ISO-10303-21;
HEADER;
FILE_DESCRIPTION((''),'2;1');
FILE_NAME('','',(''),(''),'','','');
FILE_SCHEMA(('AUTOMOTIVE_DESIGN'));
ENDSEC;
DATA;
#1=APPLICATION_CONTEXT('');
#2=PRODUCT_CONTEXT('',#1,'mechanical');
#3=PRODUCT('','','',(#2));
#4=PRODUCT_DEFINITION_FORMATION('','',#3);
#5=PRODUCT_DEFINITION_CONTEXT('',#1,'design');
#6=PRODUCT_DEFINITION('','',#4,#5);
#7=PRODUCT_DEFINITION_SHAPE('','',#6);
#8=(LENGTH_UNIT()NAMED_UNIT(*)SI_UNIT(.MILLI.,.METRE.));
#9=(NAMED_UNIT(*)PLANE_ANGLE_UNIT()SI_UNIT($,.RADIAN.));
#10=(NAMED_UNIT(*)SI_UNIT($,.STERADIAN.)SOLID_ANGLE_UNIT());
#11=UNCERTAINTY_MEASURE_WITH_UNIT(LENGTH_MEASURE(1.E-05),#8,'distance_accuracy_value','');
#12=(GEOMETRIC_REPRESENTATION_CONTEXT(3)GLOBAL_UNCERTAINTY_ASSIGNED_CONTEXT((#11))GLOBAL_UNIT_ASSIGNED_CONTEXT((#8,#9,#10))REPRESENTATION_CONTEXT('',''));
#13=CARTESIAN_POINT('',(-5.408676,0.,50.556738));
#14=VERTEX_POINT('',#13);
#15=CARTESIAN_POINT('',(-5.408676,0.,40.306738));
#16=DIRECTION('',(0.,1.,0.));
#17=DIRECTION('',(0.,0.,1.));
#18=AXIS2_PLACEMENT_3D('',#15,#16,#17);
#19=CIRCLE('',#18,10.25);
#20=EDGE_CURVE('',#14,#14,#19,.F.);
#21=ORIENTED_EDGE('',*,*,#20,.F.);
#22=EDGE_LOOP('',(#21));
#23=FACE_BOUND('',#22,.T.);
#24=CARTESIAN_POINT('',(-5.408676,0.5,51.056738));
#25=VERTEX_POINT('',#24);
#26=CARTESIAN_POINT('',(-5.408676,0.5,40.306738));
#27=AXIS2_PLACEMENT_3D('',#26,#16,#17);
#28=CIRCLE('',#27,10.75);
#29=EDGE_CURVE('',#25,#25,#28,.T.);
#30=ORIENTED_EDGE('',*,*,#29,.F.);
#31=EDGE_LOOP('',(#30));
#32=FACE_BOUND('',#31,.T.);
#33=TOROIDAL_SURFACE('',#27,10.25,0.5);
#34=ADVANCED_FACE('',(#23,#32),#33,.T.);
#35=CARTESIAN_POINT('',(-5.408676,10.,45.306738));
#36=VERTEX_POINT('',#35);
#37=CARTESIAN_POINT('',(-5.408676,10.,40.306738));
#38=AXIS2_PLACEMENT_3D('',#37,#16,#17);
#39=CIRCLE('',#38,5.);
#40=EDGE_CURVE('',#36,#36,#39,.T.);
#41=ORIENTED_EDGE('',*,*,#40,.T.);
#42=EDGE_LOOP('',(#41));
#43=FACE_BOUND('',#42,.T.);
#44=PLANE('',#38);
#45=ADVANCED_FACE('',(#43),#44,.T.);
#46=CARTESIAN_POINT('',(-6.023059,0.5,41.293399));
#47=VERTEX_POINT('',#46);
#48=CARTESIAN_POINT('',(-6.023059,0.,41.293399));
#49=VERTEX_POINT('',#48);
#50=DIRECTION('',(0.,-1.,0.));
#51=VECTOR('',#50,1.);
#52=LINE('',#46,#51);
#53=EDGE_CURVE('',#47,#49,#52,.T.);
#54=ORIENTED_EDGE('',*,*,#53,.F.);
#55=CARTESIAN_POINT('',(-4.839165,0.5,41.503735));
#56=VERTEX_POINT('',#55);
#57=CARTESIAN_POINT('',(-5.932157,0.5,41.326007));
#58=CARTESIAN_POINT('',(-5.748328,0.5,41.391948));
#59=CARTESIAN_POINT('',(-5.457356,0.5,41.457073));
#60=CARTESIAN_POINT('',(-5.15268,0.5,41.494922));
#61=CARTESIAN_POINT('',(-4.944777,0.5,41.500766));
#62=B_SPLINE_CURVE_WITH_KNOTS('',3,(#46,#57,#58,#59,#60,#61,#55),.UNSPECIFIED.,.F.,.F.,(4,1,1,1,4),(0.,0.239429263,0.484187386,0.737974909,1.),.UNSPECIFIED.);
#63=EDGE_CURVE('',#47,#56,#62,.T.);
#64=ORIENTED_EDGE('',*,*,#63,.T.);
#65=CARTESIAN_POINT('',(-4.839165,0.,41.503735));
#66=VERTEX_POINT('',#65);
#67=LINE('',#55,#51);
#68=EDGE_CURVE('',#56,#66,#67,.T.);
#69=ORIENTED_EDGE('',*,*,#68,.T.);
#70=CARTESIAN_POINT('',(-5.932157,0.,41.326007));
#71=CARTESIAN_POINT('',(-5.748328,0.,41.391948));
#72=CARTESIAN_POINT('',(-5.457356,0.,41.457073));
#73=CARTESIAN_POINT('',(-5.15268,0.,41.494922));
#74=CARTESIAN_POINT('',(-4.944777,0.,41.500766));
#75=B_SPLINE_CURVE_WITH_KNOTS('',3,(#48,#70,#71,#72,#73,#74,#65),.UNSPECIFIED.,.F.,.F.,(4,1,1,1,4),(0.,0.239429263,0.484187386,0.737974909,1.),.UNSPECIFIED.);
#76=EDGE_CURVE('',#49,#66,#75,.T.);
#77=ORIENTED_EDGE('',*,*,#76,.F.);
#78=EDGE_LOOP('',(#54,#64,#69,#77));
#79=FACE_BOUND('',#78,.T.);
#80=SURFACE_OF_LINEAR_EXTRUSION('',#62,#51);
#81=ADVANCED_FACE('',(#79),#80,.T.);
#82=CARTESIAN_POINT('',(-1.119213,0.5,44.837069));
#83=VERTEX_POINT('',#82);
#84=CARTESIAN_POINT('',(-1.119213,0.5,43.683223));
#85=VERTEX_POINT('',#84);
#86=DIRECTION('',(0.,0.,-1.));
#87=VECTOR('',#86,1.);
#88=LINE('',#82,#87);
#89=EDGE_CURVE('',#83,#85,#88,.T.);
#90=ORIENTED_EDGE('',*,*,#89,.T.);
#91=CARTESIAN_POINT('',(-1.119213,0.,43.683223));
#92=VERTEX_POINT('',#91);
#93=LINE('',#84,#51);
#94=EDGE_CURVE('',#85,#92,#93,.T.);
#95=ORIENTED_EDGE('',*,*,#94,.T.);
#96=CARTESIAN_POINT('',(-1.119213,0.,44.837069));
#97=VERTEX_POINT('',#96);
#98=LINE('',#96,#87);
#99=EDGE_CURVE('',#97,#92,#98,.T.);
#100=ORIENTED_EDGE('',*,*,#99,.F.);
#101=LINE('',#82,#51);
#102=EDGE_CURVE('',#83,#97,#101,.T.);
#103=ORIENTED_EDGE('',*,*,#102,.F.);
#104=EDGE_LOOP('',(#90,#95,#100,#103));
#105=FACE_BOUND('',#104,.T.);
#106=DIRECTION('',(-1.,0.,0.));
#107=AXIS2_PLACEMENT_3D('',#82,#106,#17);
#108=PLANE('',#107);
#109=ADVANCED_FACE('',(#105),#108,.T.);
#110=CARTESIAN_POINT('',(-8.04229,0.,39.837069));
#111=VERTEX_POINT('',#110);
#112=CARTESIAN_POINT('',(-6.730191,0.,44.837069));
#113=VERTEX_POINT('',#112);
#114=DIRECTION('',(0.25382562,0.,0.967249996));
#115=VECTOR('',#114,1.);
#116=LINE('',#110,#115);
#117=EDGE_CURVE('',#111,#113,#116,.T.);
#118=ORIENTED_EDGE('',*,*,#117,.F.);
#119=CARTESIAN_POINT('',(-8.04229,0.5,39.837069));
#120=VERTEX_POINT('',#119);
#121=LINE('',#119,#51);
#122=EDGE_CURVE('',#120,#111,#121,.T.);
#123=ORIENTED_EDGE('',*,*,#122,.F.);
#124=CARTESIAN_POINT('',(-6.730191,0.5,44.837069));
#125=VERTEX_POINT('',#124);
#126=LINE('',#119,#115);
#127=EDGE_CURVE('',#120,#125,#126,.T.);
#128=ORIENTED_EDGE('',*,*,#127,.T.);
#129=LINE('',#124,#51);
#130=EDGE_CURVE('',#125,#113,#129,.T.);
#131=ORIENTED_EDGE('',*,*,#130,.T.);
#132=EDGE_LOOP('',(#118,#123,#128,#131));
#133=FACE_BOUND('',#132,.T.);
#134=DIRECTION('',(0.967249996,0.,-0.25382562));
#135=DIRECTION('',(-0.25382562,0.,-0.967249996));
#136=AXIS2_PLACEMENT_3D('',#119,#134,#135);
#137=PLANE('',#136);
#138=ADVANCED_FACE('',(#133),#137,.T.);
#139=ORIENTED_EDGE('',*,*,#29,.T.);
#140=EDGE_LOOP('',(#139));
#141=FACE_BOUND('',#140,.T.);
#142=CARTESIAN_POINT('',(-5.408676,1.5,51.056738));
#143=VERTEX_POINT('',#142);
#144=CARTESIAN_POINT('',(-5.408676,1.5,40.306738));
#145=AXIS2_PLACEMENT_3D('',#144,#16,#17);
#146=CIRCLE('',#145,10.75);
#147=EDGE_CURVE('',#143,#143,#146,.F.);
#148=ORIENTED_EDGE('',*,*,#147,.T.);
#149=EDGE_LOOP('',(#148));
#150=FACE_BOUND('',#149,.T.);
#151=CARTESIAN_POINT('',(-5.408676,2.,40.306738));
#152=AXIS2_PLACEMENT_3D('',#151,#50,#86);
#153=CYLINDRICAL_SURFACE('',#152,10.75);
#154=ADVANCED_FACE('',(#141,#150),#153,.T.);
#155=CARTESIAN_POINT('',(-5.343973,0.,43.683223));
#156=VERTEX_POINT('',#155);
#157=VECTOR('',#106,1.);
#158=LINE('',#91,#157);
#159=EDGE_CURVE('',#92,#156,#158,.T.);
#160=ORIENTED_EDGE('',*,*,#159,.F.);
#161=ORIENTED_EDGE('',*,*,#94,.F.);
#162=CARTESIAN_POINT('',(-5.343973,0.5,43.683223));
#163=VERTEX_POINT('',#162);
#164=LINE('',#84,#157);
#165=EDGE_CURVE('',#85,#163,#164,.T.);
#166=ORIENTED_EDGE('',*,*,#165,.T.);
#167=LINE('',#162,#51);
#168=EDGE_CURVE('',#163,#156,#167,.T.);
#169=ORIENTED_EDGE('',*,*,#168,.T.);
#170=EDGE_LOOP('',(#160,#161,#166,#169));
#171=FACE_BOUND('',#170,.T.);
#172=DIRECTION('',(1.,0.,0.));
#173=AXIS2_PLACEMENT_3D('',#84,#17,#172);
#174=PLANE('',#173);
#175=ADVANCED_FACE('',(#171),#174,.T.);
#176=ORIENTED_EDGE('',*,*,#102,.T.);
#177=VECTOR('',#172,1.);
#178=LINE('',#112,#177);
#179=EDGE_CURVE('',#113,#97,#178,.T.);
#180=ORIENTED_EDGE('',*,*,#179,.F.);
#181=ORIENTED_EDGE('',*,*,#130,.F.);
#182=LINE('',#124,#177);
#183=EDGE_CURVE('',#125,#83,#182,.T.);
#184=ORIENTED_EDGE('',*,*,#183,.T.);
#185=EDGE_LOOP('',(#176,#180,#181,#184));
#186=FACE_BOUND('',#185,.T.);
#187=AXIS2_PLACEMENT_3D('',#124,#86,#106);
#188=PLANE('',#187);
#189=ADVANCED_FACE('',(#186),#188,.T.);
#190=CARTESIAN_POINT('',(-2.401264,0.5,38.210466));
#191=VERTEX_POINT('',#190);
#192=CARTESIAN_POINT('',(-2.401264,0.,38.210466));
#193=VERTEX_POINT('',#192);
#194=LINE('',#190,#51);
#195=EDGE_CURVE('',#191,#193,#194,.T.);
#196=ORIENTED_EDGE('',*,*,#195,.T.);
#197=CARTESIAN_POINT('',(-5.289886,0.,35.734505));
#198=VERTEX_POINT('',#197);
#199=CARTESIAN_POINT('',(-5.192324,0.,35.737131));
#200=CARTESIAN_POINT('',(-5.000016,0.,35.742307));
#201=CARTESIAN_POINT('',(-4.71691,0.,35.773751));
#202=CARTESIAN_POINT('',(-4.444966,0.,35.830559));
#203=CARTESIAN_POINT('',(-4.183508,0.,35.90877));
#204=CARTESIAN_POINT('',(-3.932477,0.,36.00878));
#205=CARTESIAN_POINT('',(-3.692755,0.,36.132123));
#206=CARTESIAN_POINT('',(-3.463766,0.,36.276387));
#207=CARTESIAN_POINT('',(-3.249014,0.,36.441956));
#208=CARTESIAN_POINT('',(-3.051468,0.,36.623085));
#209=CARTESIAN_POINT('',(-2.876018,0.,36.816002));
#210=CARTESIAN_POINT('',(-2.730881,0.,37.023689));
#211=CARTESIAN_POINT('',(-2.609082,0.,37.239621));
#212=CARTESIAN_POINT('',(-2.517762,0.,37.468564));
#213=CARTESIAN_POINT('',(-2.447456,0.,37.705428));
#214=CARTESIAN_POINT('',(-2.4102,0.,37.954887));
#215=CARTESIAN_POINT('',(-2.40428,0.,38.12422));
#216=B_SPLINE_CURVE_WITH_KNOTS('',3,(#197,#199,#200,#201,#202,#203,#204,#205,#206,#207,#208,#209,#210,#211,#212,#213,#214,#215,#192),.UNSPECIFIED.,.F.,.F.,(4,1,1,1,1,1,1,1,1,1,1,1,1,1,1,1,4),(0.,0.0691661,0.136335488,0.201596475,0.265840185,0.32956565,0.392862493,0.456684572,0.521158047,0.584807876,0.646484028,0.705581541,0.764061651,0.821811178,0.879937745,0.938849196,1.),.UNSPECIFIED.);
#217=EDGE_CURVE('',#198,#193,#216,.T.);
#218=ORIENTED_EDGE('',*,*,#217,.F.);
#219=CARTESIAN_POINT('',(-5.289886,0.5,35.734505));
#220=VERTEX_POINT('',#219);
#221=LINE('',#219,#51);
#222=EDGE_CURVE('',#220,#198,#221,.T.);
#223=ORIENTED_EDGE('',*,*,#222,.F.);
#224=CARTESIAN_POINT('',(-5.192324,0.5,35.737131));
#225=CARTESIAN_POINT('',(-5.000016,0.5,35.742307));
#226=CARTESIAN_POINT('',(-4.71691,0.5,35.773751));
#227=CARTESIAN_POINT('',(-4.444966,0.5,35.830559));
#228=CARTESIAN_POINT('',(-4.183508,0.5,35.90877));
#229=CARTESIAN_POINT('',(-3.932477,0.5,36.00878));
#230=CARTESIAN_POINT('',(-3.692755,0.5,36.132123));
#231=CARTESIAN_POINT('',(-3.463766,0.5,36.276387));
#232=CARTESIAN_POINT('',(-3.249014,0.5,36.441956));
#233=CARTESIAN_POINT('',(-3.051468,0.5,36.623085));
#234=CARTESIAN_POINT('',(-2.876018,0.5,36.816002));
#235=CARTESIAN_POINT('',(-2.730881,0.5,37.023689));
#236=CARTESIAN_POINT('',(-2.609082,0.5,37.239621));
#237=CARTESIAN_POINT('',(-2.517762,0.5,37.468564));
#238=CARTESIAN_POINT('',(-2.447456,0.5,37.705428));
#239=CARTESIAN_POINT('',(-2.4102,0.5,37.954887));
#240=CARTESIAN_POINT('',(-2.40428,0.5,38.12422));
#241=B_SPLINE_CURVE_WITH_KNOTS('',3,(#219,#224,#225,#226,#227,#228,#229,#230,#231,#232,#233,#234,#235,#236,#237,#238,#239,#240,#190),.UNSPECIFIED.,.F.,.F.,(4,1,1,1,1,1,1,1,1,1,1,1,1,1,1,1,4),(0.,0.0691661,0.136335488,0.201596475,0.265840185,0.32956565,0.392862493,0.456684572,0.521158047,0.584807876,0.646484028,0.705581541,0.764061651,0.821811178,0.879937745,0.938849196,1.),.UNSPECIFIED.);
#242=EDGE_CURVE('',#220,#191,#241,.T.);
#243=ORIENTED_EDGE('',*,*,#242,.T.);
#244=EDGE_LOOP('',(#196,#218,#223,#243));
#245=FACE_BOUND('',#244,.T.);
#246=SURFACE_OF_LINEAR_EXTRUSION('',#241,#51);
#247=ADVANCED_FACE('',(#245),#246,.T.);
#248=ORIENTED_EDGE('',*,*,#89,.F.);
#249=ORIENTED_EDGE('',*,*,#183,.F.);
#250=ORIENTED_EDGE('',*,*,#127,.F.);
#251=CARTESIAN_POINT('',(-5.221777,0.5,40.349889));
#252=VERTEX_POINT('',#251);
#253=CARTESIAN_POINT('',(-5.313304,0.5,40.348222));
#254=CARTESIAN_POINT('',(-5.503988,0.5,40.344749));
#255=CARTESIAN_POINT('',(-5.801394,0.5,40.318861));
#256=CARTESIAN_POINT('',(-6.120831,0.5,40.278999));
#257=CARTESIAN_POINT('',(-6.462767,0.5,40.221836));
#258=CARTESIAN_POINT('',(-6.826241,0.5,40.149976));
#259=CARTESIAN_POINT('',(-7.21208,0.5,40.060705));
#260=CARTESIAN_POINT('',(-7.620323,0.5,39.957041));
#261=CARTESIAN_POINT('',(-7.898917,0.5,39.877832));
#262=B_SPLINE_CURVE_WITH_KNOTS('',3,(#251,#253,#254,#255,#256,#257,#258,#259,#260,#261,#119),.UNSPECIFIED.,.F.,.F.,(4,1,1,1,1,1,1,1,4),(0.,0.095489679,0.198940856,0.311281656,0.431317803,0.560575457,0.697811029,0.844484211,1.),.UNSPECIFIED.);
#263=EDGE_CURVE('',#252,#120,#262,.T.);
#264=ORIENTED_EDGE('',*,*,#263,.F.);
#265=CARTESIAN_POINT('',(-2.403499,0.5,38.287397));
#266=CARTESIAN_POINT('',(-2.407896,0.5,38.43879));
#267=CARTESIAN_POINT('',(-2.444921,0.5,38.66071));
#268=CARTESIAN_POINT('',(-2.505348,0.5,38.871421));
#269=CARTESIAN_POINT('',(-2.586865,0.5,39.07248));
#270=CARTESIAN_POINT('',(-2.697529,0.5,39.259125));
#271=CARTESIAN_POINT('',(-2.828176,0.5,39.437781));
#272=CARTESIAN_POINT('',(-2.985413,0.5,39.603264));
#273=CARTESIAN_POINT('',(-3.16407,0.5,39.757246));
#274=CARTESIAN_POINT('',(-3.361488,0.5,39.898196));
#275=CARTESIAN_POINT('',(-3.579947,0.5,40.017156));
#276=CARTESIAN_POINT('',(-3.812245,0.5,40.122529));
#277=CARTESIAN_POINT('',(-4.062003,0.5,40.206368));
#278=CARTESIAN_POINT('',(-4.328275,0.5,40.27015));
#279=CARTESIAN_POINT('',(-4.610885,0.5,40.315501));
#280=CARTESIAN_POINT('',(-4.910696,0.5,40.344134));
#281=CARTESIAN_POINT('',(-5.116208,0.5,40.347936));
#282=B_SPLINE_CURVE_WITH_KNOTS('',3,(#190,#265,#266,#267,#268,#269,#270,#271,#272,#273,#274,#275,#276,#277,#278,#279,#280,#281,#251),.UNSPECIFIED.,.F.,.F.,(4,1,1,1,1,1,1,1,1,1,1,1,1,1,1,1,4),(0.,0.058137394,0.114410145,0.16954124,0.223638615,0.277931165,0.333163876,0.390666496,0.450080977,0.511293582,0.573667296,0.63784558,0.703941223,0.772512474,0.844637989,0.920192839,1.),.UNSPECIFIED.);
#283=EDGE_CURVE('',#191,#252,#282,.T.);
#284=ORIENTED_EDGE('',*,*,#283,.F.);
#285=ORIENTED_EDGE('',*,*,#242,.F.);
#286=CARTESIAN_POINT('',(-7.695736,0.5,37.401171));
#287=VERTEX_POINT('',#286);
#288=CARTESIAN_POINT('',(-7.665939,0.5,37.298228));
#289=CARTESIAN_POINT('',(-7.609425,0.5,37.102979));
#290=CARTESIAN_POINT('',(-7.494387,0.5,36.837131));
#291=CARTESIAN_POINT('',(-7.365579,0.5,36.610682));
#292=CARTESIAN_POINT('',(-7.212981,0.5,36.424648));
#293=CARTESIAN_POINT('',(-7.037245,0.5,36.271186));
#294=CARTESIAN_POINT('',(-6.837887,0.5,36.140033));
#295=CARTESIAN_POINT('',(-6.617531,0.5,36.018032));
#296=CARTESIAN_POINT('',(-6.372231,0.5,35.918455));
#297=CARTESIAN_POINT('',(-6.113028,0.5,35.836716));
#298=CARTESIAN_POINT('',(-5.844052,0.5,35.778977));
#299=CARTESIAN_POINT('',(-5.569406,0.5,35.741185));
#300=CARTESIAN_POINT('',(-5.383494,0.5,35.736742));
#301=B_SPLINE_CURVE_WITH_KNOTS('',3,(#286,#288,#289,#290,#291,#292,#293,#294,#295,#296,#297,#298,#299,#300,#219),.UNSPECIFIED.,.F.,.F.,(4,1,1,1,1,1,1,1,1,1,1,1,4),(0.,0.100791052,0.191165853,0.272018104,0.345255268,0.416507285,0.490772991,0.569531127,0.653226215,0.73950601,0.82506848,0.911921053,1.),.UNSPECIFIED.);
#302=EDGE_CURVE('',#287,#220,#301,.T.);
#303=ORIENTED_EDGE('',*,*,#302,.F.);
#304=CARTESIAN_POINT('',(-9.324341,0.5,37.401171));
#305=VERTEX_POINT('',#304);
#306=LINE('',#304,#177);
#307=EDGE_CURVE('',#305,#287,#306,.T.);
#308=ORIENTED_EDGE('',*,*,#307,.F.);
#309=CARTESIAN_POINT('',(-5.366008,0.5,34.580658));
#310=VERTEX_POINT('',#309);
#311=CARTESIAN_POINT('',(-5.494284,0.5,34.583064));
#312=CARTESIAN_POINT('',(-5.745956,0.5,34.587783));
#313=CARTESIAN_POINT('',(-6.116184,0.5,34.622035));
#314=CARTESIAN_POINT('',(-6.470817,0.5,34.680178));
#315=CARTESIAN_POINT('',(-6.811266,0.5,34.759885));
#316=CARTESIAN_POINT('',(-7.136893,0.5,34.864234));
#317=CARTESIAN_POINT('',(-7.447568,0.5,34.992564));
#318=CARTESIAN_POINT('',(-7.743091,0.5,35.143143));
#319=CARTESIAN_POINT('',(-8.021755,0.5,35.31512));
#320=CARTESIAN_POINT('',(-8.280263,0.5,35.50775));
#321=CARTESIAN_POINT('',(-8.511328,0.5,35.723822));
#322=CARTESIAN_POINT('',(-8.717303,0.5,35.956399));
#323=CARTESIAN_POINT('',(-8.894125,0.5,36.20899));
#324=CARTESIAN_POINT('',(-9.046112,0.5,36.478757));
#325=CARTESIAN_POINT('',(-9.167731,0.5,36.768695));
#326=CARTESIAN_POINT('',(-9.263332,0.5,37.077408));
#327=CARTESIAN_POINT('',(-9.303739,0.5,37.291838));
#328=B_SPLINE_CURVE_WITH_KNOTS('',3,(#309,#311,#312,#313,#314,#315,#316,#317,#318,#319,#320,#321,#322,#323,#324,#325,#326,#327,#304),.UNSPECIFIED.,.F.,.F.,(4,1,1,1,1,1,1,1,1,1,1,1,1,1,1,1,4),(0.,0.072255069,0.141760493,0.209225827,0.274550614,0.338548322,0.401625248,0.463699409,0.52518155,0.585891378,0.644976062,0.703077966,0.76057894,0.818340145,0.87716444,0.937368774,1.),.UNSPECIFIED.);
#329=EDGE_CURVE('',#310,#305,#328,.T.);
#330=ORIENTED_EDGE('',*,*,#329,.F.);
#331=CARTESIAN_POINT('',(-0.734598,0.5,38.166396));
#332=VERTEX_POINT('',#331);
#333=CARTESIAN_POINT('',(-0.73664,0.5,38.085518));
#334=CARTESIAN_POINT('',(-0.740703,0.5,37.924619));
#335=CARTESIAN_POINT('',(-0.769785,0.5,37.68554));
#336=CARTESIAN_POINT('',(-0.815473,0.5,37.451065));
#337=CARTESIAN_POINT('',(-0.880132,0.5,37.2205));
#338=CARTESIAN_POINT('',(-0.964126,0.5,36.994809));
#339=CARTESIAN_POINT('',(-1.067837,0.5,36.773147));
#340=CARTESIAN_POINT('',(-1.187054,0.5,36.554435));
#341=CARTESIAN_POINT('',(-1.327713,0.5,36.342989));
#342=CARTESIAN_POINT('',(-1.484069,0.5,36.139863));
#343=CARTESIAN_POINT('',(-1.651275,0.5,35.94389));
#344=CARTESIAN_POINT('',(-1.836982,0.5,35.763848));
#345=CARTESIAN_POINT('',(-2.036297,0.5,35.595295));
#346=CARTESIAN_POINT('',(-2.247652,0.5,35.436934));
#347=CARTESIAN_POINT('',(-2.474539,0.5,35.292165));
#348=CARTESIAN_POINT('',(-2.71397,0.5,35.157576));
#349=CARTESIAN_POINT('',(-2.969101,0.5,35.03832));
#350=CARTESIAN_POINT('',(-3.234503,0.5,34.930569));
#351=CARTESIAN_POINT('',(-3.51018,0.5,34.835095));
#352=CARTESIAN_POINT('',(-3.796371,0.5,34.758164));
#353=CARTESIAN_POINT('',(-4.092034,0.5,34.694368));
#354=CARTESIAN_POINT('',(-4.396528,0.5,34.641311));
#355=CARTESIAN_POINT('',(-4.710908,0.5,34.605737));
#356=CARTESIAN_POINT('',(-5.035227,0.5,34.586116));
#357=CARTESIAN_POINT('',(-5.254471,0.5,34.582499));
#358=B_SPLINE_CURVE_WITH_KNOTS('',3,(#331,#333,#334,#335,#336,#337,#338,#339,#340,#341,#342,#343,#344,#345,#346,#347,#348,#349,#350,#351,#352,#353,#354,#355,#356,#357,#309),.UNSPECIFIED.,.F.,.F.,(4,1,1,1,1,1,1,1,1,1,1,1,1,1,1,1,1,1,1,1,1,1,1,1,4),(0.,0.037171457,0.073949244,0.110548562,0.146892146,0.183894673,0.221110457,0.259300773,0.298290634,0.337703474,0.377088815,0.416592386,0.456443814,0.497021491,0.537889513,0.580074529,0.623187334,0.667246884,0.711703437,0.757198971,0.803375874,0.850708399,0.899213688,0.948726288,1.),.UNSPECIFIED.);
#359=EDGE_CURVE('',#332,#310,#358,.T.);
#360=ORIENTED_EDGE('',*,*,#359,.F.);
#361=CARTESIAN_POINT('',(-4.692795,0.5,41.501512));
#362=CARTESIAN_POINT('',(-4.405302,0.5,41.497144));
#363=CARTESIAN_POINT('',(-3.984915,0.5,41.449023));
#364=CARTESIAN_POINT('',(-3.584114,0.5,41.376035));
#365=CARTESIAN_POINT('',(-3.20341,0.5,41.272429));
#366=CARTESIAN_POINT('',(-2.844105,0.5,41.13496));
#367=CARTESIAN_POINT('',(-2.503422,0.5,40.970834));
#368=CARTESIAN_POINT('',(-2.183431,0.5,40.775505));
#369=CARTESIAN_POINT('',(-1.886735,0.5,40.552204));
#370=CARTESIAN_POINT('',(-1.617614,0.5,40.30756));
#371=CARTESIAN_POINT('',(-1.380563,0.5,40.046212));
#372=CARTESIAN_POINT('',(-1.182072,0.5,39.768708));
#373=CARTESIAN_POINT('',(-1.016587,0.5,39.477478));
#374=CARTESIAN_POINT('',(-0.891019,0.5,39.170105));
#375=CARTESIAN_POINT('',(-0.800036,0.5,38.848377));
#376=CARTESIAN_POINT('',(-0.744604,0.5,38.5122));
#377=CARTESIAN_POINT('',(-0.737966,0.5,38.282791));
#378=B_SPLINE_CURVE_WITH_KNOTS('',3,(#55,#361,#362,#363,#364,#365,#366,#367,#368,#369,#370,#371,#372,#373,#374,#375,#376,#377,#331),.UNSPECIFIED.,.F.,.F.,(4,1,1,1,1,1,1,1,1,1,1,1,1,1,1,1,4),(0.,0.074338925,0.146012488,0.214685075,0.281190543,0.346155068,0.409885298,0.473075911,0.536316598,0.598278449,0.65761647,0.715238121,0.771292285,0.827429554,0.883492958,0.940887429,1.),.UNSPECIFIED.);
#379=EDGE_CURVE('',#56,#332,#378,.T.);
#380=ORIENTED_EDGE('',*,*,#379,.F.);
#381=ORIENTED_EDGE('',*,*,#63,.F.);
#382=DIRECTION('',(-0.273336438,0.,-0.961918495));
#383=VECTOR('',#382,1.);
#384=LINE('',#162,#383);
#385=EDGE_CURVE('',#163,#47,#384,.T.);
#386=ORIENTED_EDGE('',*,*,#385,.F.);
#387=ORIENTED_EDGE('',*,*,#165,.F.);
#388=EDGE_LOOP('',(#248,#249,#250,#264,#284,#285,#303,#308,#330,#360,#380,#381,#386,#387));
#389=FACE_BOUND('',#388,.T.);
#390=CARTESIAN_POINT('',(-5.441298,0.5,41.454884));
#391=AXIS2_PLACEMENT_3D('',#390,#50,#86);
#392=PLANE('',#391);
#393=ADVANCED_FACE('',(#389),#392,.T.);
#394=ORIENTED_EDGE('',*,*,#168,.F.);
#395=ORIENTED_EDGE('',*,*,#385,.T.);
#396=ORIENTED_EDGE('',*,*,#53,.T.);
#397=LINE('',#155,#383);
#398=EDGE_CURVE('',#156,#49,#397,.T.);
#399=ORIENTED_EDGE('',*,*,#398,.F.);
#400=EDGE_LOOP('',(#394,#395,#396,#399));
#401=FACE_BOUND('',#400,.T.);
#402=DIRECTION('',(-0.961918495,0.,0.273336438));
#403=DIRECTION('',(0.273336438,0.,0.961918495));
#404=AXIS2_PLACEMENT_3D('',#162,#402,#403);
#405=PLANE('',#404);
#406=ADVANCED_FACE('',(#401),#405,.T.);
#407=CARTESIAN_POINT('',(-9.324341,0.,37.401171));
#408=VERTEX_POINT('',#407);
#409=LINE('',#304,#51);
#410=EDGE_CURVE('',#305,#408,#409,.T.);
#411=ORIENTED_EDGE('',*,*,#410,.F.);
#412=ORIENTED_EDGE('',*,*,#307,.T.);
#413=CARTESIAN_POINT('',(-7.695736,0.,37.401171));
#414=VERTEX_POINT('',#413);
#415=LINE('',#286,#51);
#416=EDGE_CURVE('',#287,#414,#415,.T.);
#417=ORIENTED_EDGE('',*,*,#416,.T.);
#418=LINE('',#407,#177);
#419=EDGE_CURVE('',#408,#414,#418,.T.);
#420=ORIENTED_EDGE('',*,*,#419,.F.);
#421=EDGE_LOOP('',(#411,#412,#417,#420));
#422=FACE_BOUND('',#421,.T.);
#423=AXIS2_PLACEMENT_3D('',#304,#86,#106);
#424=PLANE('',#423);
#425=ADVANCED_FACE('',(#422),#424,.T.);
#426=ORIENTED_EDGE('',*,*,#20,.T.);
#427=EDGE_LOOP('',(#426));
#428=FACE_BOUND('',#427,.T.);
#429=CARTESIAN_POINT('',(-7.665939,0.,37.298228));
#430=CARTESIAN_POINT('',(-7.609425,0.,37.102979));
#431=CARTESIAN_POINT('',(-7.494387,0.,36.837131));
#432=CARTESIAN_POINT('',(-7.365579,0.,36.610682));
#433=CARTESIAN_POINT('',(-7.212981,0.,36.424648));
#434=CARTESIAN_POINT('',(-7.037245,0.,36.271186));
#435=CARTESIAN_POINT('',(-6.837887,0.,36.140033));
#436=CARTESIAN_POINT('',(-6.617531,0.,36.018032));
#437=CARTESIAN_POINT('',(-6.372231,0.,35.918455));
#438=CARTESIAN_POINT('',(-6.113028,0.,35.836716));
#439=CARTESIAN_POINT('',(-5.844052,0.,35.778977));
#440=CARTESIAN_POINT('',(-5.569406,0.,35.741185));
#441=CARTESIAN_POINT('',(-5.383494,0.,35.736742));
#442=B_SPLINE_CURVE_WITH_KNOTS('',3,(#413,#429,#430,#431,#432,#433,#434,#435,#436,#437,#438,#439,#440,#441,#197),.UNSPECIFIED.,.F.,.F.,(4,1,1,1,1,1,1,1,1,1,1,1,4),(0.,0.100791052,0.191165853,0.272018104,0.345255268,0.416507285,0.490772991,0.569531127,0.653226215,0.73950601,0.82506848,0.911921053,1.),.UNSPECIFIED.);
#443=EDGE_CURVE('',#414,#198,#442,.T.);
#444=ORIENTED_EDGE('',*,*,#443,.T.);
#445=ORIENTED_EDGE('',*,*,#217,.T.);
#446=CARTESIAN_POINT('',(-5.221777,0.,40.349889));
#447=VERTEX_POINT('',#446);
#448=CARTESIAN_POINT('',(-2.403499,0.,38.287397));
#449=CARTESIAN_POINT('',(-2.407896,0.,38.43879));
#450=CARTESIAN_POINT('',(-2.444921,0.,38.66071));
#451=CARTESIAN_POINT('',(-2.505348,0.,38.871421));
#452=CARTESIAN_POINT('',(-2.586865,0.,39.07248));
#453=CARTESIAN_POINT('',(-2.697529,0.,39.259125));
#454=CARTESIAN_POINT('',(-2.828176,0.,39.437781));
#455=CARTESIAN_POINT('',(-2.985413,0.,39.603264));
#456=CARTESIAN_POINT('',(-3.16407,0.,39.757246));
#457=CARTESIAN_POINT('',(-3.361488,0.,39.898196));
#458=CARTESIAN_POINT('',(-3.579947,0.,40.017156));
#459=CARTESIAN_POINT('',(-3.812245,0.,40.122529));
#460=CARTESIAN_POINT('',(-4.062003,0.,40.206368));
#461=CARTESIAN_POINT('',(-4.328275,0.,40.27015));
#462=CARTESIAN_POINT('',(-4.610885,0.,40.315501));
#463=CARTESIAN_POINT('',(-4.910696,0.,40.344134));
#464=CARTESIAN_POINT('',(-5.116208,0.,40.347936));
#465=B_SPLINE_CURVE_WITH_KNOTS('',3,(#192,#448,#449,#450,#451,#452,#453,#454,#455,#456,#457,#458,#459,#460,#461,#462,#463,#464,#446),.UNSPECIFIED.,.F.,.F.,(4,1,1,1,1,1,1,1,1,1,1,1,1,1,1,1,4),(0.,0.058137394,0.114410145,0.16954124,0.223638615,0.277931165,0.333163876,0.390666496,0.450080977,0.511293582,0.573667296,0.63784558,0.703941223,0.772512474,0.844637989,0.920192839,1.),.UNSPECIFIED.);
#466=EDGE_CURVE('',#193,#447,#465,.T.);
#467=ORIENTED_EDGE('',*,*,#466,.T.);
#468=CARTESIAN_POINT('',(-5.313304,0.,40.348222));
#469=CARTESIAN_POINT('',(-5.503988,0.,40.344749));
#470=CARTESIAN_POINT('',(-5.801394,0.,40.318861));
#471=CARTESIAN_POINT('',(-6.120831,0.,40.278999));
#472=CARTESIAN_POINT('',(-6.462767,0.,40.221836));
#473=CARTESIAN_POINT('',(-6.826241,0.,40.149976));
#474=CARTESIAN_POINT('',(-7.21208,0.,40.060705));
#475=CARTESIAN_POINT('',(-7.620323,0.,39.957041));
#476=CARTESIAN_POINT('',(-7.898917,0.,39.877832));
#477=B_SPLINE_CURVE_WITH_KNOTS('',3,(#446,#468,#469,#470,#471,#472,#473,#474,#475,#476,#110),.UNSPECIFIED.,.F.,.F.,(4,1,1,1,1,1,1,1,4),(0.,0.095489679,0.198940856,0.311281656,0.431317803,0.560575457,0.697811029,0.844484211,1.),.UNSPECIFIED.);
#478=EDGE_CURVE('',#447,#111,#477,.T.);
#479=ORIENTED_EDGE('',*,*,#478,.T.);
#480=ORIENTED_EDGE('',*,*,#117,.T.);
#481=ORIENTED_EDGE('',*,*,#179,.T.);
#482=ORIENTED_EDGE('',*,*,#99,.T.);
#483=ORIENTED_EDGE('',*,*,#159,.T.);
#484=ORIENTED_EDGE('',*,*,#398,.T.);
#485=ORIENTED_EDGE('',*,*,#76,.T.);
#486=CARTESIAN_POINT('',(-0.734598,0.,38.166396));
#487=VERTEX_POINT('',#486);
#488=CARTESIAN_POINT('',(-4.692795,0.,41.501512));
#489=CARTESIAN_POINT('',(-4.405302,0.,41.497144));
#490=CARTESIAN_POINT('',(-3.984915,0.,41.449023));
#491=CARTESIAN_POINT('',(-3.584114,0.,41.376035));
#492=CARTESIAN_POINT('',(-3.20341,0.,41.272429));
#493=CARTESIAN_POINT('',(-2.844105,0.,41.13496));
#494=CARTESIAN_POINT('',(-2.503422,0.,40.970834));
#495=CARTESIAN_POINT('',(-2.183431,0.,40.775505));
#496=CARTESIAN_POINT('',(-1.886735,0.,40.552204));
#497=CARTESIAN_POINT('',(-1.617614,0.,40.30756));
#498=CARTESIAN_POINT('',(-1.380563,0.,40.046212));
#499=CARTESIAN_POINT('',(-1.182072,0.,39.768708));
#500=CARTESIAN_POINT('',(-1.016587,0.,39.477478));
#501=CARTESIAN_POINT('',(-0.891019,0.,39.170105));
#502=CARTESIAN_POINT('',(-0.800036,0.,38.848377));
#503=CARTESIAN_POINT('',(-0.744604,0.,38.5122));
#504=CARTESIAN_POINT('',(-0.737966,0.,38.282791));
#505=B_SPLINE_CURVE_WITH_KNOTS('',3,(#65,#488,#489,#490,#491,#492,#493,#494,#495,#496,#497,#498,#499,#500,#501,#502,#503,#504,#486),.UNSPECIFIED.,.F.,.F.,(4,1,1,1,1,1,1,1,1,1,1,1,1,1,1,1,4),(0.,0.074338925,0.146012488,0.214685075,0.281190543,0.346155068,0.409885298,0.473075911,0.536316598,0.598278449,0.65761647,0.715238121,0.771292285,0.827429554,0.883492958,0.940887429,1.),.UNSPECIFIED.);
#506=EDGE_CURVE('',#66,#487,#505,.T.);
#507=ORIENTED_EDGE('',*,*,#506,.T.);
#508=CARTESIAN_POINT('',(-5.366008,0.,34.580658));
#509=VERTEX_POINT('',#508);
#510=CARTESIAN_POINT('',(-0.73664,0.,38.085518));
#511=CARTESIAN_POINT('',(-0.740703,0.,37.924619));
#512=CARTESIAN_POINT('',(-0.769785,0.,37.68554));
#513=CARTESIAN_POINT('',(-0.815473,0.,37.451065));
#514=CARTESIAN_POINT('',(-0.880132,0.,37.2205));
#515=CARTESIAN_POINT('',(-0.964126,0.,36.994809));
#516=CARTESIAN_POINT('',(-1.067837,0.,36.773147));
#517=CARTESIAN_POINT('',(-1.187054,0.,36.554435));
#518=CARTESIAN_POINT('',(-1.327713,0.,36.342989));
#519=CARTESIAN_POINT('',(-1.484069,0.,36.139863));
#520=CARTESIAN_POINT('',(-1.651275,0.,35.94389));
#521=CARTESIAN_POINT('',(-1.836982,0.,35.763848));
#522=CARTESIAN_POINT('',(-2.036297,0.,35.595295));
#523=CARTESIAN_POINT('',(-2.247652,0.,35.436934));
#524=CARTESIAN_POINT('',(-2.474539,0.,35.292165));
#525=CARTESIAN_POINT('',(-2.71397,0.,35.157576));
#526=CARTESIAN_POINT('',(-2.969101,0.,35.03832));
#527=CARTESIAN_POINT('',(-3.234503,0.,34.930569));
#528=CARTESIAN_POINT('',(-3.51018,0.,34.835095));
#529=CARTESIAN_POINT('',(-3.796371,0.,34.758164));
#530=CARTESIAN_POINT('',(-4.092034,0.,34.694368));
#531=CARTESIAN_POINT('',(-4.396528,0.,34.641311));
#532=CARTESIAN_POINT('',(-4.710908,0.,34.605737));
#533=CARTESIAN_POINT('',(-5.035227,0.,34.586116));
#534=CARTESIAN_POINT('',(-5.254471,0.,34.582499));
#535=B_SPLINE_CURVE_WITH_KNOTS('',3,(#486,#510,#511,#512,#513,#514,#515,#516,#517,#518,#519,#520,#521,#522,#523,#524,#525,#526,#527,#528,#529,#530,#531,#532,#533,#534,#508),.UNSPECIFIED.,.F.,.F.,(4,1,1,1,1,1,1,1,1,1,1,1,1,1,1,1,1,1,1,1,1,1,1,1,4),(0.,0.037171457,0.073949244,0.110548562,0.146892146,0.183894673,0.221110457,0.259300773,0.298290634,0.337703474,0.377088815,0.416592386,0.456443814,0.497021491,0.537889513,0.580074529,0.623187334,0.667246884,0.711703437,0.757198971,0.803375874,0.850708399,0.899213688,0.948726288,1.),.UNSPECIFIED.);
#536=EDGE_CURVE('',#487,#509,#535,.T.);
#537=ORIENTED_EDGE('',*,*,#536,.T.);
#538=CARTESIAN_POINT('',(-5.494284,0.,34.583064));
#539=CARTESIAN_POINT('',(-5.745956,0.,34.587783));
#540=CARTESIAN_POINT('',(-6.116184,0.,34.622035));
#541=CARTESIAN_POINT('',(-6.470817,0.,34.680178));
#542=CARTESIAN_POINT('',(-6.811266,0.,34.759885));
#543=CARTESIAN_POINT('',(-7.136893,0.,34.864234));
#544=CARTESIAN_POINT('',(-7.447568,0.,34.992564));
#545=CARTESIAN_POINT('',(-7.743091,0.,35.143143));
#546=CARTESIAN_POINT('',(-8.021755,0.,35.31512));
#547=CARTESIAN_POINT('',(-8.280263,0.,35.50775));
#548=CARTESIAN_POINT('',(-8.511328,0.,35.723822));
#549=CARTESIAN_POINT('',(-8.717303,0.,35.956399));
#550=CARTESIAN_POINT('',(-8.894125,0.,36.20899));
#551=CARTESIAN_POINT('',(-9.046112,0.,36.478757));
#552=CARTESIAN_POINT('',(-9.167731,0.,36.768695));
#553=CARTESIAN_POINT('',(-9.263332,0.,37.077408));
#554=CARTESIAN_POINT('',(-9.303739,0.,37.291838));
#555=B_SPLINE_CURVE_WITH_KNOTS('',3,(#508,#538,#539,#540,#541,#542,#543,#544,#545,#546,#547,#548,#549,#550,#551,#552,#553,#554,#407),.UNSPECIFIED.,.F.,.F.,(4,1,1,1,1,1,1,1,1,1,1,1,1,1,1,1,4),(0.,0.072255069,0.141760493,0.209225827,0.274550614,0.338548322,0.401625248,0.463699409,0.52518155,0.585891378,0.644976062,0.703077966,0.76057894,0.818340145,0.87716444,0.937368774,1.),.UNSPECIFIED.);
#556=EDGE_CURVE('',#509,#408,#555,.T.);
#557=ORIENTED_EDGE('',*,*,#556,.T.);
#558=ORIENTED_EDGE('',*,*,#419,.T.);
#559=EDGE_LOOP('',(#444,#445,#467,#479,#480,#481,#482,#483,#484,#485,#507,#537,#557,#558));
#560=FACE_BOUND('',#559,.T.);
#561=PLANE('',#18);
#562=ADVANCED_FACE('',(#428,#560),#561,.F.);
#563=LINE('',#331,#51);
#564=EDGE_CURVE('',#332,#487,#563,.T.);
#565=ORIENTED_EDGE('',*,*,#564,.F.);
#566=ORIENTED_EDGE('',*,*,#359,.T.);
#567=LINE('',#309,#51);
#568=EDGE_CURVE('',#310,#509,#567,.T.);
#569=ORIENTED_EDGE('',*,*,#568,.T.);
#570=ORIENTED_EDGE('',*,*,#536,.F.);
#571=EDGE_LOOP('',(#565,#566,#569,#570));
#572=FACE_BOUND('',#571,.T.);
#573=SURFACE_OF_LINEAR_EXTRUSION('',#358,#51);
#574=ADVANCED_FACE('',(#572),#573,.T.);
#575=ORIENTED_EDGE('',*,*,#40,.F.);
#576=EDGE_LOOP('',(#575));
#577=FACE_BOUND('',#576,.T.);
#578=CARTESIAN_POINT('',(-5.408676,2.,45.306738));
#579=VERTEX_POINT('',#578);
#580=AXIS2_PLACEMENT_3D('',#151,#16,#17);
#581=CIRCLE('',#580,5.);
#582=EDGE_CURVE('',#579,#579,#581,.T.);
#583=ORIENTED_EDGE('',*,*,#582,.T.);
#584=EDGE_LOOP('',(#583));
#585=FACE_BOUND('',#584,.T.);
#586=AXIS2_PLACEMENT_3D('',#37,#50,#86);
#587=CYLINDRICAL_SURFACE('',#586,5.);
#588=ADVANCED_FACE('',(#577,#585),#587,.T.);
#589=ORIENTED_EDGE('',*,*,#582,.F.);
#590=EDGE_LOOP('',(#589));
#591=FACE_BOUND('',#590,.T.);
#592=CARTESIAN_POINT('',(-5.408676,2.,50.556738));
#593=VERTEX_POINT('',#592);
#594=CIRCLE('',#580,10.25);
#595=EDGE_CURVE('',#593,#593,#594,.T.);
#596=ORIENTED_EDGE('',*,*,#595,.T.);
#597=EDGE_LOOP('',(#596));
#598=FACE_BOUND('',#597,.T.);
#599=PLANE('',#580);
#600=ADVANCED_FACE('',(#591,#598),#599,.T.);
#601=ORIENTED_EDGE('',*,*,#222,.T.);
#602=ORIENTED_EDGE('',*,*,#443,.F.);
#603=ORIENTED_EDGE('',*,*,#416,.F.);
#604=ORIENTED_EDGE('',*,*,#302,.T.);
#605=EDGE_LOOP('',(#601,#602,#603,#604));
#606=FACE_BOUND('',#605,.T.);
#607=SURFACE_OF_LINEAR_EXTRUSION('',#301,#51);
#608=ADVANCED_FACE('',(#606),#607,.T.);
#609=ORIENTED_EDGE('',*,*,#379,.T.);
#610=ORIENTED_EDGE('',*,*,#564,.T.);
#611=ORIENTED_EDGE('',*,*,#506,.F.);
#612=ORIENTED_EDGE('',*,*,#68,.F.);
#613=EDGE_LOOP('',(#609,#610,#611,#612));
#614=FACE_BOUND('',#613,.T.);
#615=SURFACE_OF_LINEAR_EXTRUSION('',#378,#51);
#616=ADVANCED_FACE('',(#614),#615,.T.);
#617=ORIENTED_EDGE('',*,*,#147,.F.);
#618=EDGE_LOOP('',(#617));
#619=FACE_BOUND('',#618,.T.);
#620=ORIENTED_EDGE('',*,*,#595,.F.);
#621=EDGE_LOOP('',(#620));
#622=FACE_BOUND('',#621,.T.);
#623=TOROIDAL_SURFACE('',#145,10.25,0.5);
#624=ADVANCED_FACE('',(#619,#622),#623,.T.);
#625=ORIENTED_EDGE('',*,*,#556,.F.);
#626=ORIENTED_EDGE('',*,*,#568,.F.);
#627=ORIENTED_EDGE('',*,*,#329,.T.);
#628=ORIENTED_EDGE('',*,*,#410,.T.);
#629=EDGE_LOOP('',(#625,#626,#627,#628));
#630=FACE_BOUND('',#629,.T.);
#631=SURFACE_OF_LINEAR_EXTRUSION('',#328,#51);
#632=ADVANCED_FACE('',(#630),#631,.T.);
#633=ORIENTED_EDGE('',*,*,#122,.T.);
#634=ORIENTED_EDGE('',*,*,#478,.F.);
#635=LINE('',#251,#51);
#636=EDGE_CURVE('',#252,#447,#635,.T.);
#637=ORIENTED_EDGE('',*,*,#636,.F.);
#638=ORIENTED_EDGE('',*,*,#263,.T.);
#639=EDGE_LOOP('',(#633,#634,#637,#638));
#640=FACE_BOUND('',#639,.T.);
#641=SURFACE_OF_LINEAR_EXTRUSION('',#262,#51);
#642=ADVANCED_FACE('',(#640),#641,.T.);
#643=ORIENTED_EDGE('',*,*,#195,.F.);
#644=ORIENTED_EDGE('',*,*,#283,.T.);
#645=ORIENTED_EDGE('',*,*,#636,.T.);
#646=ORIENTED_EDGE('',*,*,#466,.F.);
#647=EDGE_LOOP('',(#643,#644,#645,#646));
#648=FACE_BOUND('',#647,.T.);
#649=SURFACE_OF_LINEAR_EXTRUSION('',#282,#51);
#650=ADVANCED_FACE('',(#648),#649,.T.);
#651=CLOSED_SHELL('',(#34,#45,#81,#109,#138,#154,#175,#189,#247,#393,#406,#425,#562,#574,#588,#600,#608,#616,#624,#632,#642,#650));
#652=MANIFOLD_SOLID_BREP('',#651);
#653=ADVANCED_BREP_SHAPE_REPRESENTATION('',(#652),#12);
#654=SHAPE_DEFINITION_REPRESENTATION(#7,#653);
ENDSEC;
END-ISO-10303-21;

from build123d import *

# Parameters (mm, degrees)
SKETCH1_R           = 10.75
BOSS_EXTRUDE5_DEPTH = 2
SKETCH4_R           = 5
BOSS_EXTRUDE6_DEPTH = 8
CUT_EXTRUDE2_DEPTH  = 0.5
FILLET1_R           = 0.5


with BuildPart() as part:
    # Sketch1 → Boss-Extrude5 (new body)
    with BuildSketch(Plane(origin=(0, 0, 0), x_dir=(1, 0, 0), z_dir=(0, 1, 0))):
        with Locations(Location((-5.408676197, -40.3067379, 0), (0, 0, 270))):
            Circle(SKETCH1_R)
    extrude(amount=BOSS_EXTRUDE5_DEPTH)

    # Sketch4 → Boss-Extrude6 (add)
    with BuildSketch(Plane(origin=(0, 2, 0), x_dir=(1, 0, 0), z_dir=(0, 1, 0))):
        with Locations(Location((-5.408676197, -40.3067379, 0), (0, 0, 270))):
            Circle(SKETCH4_R)
    extrude(amount=BOSS_EXTRUDE6_DEPTH)

    # Sketch5 → Cut-Extrude2 (cut)
    with BuildSketch(Plane.XZ):
        with BuildLine():
            Line((-1.119213117, 44.837068706), (-1.119213117, 43.683222552))
            Line((-1.119213117, 43.683222552), (-5.343972733, 43.683222552))
            Line((-5.343972733, 43.683222552), (-6.023059271, 41.293398834))
            add(Edge.make_bspline(
                [(-6.023059271, 41.293398834), (-5.932156571, 41.326006682), (-5.748327994, 41.391948115), (-5.457355976, 41.457073381), (-5.152680183, 41.494921804), (-4.944776832, 41.500766404), (-4.83916504, 41.503735373)],
                knots=[0, 0, 0, 0, 0.957717051, 1.936749544, 2.951899637, 4, 4, 4, 4], degree=3))
            add(Edge.make_bspline(
                [(-4.83916504, 41.503735373), (-4.692794844, 41.501511705), (-4.405302434, 41.497144096), (-3.984914685, 41.449022779), (-3.584114393, 41.376035058), (-3.203409576, 41.272428706), (-2.84410494, 41.134960143), (-2.503422249, 40.970833678), (-2.183430631, 40.775504615), (-1.886735045, 40.552203964), (-1.617614167, 40.307560211), (-1.380562504, 40.046212071), (-1.18207178, 39.768708327), (-1.016586663, 39.477477761), (-0.89101931, 39.170105093), (-0.800035696, 38.848376848), (-0.744603566, 38.51220008), (-0.73796564, 38.282791456), (-0.734597733, 38.166395629)],
                knots=[0, 0, 0, 0, 1.189422793, 2.336199813, 3.434961192, 4.499048693, 5.538481089, 6.55816476, 7.569214574, 8.581065566, 9.572455183, 10.521863525, 11.44380993, 12.340676557, 13.23887286, 14.135887326, 15.054198869, 16, 16, 16, 16], degree=3))
            add(Edge.make_bspline(
                [(-0.734597733, 38.166395629), (-0.736640177, 38.085517838), (-0.740703434, 37.924618805), (-0.769785303, 37.68553966), (-0.815472566, 37.451064567), (-0.880132404, 37.220499767), (-0.964125821, 36.994808543), (-1.06783674, 36.773146693), (-1.187054465, 36.554434869), (-1.327713423, 36.342988535), (-1.484068604, 36.139863296), (-1.651274877, 35.943889885), (-1.836982388, 35.763848397), (-2.036297248, 35.595294519), (-2.247651639, 35.436933598), (-2.474538943, 35.29216457), (-2.713969847, 35.157576429), (-2.969100544, 35.038319676), (-3.234502949, 34.930569363), (-3.510180209, 34.835095329), (-3.796371201, 34.758164461), (-4.092034227, 34.694367722), (-4.396528465, 34.641310625), (-4.710907901, 34.605736687), (-5.035226874, 34.586116093), (-5.254470616, 34.582498734), (-5.366007989, 34.58065845)],
                knots=[0, 0, 0, 0, 0.892114965, 1.774781853, 2.653165494, 3.525411504, 4.413472142, 5.306650977, 6.223218553, 7.158975213, 8.104883377, 9.050131562, 9.99821726, 10.954651527, 11.928515787, 12.909348305, 13.921788707, 14.956496026, 16.013925213, 17.080882478, 18.172775305, 19.281020983, 20.417001569, 21.581128518, 22.769430922, 24, 24, 24, 24], degree=3))
            add(Edge.make_bspline(
                [(-5.366007989, 34.58065845), (-5.494284486, 34.583063858), (-5.745955956, 34.587783137), (-6.116184202, 34.622034821), (-6.47081652, 34.680178398), (-6.811266316, 34.759884514), (-7.136893236, 34.864233845), (-7.447568471, 34.992564198), (-7.743090523, 35.14314329), (-8.021755023, 35.315119606), (-8.280263283, 35.507749531), (-8.511328327, 35.723822234), (-8.717302907, 35.956398551), (-8.894124812, 36.208989698), (-9.04611222, 36.478757404), (-9.167730863, 36.768695414), (-9.263331665, 37.077407764), (-9.303738659, 37.291837918), (-9.324341322, 37.40117127)],
                knots=[0, 0, 0, 0, 1.156081109, 2.268167895, 3.347613226, 4.39280983, 5.416773159, 6.426003973, 7.419190543, 8.402904802, 9.374262051, 10.319617, 11.249247452, 12.16926304, 13.093442327, 14.034631047, 14.997900376, 16, 16, 16, 16], degree=3))
            Line((-9.324341322, 37.40117127), (-7.695735553, 37.40117127))
            add(Edge.make_bspline(
                [(-7.695735553, 37.40117127), (-7.665938842, 37.29822773), (-7.609424759, 37.102979349), (-7.494386677, 36.837131133), (-7.365578693, 36.610682144), (-7.212981365, 36.424647701), (-7.037244542, 36.271186273), (-6.837886683, 36.140033103), (-6.61753111, 36.018032238), (-6.372231072, 35.91845502), (-6.113028221, 35.8367159), (-5.84405185, 35.778976521), (-5.569406027, 35.74118536), (-5.383493923, 35.736741906), (-5.289886194, 35.734504604)],
                knots=[0, 0, 0, 0, 1.209492624, 2.293990239, 3.264217245, 4.143063212, 4.998087424, 5.889275892, 6.834373525, 7.838714582, 8.874072118, 9.900821757, 10.943052634, 12, 12, 12, 12], degree=3))
            add(Edge.make_bspline(
                [(-5.289886194, 35.734504604), (-5.192324005, 35.737130811), (-5.000016086, 35.74230741), (-4.716910345, 35.773750579), (-4.444965931, 35.830559113), (-4.183508131, 35.908770189), (-3.932477159, 36.008780442), (-3.692754799, 36.132122968), (-3.463766496, 36.276386897), (-3.249014093, 36.441955602), (-3.05146791, 36.623085173), (-2.876018465, 36.816002223), (-2.730880971, 37.023688964), (-2.609082001, 37.239620566), (-2.517761773, 37.468564453), (-2.447455886, 37.705428454), (-2.410200354, 37.954886602), (-2.40427986, 38.124220181), (-2.401264399, 38.210466142)],
                knots=[0, 0, 0, 0, 1.106657597, 2.181367805, 3.225543607, 4.253442955, 5.273050397, 6.28579989, 7.306953151, 8.338528751, 9.35692601, 10.343744444, 11.289304653, 12.224986422, 13.148978842, 14.079003922, 15.021587128, 16, 16, 16, 16], degree=3))
            add(Edge.make_bspline(
                [(-2.401264399, 38.210466142), (-2.40349869, 38.287396604), (-2.407895611, 38.438790134), (-2.444921346, 38.660709645), (-2.50534817, 38.871421278), (-2.586864736, 39.072480407), (-2.697529217, 39.259124567), (-2.828175751, 39.437781279), (-2.985412858, 39.603263585), (-3.164070316, 39.757245811), (-3.36148755, 39.89819609), (-3.579946856, 40.017155777), (-3.812244826, 40.12252931), (-4.062002973, 40.206367726), (-4.32827546, 40.270150154), (-4.610885079, 40.315501078), (-4.910695843, 40.344133926), (-5.116208444, 40.347936099), (-5.22177722, 40.349889219)],
                knots=[0, 0, 0, 0, 0.930198305, 1.830562318, 2.712659836, 3.578217842, 4.446898647, 5.330622017, 6.250663937, 7.201295639, 8.18069732, 9.178676739, 10.205529286, 11.263059576, 12.360199582, 13.514207819, 14.723085422, 16, 16, 16, 16], degree=3))
            add(Edge.make_bspline(
                [(-5.22177722, 40.349889219), (-5.313303916, 40.348222189), (-5.50398839, 40.344749139), (-5.801393829, 40.318860761), (-6.120830833, 40.278998633), (-6.462766686, 40.221835601), (-6.826240906, 40.149976218), (-7.212080245, 40.060704798), (-7.620322897, 39.957040722), (-7.898916934, 39.877831976), (-8.04229004, 39.837068706)],
                knots=[0, 0, 0, 0, 0.763917436, 1.591526851, 2.490253246, 3.450542423, 4.484603654, 5.582488234, 6.755873684, 8, 8, 8, 8], degree=3))
            Line((-8.04229004, 39.837068706), (-6.730190681, 44.837068706))
            Line((-6.730190681, 44.837068706), (-1.119213117, 44.837068706))
        make_face()
    extrude(amount=-CUT_EXTRUDE2_DEPTH, mode=Mode.SUBTRACT)

    # Fillet1
    fillet1_edges = [part.edges().sort_by_distance(p)[0] for p in [
        (-5.408676197, 0, 29.5567379),
        (-5.408676197, 2, 29.5567379),
    ]]
    fillet(fillet1_edges, radius=FILLET1_R)


solid = part.part
